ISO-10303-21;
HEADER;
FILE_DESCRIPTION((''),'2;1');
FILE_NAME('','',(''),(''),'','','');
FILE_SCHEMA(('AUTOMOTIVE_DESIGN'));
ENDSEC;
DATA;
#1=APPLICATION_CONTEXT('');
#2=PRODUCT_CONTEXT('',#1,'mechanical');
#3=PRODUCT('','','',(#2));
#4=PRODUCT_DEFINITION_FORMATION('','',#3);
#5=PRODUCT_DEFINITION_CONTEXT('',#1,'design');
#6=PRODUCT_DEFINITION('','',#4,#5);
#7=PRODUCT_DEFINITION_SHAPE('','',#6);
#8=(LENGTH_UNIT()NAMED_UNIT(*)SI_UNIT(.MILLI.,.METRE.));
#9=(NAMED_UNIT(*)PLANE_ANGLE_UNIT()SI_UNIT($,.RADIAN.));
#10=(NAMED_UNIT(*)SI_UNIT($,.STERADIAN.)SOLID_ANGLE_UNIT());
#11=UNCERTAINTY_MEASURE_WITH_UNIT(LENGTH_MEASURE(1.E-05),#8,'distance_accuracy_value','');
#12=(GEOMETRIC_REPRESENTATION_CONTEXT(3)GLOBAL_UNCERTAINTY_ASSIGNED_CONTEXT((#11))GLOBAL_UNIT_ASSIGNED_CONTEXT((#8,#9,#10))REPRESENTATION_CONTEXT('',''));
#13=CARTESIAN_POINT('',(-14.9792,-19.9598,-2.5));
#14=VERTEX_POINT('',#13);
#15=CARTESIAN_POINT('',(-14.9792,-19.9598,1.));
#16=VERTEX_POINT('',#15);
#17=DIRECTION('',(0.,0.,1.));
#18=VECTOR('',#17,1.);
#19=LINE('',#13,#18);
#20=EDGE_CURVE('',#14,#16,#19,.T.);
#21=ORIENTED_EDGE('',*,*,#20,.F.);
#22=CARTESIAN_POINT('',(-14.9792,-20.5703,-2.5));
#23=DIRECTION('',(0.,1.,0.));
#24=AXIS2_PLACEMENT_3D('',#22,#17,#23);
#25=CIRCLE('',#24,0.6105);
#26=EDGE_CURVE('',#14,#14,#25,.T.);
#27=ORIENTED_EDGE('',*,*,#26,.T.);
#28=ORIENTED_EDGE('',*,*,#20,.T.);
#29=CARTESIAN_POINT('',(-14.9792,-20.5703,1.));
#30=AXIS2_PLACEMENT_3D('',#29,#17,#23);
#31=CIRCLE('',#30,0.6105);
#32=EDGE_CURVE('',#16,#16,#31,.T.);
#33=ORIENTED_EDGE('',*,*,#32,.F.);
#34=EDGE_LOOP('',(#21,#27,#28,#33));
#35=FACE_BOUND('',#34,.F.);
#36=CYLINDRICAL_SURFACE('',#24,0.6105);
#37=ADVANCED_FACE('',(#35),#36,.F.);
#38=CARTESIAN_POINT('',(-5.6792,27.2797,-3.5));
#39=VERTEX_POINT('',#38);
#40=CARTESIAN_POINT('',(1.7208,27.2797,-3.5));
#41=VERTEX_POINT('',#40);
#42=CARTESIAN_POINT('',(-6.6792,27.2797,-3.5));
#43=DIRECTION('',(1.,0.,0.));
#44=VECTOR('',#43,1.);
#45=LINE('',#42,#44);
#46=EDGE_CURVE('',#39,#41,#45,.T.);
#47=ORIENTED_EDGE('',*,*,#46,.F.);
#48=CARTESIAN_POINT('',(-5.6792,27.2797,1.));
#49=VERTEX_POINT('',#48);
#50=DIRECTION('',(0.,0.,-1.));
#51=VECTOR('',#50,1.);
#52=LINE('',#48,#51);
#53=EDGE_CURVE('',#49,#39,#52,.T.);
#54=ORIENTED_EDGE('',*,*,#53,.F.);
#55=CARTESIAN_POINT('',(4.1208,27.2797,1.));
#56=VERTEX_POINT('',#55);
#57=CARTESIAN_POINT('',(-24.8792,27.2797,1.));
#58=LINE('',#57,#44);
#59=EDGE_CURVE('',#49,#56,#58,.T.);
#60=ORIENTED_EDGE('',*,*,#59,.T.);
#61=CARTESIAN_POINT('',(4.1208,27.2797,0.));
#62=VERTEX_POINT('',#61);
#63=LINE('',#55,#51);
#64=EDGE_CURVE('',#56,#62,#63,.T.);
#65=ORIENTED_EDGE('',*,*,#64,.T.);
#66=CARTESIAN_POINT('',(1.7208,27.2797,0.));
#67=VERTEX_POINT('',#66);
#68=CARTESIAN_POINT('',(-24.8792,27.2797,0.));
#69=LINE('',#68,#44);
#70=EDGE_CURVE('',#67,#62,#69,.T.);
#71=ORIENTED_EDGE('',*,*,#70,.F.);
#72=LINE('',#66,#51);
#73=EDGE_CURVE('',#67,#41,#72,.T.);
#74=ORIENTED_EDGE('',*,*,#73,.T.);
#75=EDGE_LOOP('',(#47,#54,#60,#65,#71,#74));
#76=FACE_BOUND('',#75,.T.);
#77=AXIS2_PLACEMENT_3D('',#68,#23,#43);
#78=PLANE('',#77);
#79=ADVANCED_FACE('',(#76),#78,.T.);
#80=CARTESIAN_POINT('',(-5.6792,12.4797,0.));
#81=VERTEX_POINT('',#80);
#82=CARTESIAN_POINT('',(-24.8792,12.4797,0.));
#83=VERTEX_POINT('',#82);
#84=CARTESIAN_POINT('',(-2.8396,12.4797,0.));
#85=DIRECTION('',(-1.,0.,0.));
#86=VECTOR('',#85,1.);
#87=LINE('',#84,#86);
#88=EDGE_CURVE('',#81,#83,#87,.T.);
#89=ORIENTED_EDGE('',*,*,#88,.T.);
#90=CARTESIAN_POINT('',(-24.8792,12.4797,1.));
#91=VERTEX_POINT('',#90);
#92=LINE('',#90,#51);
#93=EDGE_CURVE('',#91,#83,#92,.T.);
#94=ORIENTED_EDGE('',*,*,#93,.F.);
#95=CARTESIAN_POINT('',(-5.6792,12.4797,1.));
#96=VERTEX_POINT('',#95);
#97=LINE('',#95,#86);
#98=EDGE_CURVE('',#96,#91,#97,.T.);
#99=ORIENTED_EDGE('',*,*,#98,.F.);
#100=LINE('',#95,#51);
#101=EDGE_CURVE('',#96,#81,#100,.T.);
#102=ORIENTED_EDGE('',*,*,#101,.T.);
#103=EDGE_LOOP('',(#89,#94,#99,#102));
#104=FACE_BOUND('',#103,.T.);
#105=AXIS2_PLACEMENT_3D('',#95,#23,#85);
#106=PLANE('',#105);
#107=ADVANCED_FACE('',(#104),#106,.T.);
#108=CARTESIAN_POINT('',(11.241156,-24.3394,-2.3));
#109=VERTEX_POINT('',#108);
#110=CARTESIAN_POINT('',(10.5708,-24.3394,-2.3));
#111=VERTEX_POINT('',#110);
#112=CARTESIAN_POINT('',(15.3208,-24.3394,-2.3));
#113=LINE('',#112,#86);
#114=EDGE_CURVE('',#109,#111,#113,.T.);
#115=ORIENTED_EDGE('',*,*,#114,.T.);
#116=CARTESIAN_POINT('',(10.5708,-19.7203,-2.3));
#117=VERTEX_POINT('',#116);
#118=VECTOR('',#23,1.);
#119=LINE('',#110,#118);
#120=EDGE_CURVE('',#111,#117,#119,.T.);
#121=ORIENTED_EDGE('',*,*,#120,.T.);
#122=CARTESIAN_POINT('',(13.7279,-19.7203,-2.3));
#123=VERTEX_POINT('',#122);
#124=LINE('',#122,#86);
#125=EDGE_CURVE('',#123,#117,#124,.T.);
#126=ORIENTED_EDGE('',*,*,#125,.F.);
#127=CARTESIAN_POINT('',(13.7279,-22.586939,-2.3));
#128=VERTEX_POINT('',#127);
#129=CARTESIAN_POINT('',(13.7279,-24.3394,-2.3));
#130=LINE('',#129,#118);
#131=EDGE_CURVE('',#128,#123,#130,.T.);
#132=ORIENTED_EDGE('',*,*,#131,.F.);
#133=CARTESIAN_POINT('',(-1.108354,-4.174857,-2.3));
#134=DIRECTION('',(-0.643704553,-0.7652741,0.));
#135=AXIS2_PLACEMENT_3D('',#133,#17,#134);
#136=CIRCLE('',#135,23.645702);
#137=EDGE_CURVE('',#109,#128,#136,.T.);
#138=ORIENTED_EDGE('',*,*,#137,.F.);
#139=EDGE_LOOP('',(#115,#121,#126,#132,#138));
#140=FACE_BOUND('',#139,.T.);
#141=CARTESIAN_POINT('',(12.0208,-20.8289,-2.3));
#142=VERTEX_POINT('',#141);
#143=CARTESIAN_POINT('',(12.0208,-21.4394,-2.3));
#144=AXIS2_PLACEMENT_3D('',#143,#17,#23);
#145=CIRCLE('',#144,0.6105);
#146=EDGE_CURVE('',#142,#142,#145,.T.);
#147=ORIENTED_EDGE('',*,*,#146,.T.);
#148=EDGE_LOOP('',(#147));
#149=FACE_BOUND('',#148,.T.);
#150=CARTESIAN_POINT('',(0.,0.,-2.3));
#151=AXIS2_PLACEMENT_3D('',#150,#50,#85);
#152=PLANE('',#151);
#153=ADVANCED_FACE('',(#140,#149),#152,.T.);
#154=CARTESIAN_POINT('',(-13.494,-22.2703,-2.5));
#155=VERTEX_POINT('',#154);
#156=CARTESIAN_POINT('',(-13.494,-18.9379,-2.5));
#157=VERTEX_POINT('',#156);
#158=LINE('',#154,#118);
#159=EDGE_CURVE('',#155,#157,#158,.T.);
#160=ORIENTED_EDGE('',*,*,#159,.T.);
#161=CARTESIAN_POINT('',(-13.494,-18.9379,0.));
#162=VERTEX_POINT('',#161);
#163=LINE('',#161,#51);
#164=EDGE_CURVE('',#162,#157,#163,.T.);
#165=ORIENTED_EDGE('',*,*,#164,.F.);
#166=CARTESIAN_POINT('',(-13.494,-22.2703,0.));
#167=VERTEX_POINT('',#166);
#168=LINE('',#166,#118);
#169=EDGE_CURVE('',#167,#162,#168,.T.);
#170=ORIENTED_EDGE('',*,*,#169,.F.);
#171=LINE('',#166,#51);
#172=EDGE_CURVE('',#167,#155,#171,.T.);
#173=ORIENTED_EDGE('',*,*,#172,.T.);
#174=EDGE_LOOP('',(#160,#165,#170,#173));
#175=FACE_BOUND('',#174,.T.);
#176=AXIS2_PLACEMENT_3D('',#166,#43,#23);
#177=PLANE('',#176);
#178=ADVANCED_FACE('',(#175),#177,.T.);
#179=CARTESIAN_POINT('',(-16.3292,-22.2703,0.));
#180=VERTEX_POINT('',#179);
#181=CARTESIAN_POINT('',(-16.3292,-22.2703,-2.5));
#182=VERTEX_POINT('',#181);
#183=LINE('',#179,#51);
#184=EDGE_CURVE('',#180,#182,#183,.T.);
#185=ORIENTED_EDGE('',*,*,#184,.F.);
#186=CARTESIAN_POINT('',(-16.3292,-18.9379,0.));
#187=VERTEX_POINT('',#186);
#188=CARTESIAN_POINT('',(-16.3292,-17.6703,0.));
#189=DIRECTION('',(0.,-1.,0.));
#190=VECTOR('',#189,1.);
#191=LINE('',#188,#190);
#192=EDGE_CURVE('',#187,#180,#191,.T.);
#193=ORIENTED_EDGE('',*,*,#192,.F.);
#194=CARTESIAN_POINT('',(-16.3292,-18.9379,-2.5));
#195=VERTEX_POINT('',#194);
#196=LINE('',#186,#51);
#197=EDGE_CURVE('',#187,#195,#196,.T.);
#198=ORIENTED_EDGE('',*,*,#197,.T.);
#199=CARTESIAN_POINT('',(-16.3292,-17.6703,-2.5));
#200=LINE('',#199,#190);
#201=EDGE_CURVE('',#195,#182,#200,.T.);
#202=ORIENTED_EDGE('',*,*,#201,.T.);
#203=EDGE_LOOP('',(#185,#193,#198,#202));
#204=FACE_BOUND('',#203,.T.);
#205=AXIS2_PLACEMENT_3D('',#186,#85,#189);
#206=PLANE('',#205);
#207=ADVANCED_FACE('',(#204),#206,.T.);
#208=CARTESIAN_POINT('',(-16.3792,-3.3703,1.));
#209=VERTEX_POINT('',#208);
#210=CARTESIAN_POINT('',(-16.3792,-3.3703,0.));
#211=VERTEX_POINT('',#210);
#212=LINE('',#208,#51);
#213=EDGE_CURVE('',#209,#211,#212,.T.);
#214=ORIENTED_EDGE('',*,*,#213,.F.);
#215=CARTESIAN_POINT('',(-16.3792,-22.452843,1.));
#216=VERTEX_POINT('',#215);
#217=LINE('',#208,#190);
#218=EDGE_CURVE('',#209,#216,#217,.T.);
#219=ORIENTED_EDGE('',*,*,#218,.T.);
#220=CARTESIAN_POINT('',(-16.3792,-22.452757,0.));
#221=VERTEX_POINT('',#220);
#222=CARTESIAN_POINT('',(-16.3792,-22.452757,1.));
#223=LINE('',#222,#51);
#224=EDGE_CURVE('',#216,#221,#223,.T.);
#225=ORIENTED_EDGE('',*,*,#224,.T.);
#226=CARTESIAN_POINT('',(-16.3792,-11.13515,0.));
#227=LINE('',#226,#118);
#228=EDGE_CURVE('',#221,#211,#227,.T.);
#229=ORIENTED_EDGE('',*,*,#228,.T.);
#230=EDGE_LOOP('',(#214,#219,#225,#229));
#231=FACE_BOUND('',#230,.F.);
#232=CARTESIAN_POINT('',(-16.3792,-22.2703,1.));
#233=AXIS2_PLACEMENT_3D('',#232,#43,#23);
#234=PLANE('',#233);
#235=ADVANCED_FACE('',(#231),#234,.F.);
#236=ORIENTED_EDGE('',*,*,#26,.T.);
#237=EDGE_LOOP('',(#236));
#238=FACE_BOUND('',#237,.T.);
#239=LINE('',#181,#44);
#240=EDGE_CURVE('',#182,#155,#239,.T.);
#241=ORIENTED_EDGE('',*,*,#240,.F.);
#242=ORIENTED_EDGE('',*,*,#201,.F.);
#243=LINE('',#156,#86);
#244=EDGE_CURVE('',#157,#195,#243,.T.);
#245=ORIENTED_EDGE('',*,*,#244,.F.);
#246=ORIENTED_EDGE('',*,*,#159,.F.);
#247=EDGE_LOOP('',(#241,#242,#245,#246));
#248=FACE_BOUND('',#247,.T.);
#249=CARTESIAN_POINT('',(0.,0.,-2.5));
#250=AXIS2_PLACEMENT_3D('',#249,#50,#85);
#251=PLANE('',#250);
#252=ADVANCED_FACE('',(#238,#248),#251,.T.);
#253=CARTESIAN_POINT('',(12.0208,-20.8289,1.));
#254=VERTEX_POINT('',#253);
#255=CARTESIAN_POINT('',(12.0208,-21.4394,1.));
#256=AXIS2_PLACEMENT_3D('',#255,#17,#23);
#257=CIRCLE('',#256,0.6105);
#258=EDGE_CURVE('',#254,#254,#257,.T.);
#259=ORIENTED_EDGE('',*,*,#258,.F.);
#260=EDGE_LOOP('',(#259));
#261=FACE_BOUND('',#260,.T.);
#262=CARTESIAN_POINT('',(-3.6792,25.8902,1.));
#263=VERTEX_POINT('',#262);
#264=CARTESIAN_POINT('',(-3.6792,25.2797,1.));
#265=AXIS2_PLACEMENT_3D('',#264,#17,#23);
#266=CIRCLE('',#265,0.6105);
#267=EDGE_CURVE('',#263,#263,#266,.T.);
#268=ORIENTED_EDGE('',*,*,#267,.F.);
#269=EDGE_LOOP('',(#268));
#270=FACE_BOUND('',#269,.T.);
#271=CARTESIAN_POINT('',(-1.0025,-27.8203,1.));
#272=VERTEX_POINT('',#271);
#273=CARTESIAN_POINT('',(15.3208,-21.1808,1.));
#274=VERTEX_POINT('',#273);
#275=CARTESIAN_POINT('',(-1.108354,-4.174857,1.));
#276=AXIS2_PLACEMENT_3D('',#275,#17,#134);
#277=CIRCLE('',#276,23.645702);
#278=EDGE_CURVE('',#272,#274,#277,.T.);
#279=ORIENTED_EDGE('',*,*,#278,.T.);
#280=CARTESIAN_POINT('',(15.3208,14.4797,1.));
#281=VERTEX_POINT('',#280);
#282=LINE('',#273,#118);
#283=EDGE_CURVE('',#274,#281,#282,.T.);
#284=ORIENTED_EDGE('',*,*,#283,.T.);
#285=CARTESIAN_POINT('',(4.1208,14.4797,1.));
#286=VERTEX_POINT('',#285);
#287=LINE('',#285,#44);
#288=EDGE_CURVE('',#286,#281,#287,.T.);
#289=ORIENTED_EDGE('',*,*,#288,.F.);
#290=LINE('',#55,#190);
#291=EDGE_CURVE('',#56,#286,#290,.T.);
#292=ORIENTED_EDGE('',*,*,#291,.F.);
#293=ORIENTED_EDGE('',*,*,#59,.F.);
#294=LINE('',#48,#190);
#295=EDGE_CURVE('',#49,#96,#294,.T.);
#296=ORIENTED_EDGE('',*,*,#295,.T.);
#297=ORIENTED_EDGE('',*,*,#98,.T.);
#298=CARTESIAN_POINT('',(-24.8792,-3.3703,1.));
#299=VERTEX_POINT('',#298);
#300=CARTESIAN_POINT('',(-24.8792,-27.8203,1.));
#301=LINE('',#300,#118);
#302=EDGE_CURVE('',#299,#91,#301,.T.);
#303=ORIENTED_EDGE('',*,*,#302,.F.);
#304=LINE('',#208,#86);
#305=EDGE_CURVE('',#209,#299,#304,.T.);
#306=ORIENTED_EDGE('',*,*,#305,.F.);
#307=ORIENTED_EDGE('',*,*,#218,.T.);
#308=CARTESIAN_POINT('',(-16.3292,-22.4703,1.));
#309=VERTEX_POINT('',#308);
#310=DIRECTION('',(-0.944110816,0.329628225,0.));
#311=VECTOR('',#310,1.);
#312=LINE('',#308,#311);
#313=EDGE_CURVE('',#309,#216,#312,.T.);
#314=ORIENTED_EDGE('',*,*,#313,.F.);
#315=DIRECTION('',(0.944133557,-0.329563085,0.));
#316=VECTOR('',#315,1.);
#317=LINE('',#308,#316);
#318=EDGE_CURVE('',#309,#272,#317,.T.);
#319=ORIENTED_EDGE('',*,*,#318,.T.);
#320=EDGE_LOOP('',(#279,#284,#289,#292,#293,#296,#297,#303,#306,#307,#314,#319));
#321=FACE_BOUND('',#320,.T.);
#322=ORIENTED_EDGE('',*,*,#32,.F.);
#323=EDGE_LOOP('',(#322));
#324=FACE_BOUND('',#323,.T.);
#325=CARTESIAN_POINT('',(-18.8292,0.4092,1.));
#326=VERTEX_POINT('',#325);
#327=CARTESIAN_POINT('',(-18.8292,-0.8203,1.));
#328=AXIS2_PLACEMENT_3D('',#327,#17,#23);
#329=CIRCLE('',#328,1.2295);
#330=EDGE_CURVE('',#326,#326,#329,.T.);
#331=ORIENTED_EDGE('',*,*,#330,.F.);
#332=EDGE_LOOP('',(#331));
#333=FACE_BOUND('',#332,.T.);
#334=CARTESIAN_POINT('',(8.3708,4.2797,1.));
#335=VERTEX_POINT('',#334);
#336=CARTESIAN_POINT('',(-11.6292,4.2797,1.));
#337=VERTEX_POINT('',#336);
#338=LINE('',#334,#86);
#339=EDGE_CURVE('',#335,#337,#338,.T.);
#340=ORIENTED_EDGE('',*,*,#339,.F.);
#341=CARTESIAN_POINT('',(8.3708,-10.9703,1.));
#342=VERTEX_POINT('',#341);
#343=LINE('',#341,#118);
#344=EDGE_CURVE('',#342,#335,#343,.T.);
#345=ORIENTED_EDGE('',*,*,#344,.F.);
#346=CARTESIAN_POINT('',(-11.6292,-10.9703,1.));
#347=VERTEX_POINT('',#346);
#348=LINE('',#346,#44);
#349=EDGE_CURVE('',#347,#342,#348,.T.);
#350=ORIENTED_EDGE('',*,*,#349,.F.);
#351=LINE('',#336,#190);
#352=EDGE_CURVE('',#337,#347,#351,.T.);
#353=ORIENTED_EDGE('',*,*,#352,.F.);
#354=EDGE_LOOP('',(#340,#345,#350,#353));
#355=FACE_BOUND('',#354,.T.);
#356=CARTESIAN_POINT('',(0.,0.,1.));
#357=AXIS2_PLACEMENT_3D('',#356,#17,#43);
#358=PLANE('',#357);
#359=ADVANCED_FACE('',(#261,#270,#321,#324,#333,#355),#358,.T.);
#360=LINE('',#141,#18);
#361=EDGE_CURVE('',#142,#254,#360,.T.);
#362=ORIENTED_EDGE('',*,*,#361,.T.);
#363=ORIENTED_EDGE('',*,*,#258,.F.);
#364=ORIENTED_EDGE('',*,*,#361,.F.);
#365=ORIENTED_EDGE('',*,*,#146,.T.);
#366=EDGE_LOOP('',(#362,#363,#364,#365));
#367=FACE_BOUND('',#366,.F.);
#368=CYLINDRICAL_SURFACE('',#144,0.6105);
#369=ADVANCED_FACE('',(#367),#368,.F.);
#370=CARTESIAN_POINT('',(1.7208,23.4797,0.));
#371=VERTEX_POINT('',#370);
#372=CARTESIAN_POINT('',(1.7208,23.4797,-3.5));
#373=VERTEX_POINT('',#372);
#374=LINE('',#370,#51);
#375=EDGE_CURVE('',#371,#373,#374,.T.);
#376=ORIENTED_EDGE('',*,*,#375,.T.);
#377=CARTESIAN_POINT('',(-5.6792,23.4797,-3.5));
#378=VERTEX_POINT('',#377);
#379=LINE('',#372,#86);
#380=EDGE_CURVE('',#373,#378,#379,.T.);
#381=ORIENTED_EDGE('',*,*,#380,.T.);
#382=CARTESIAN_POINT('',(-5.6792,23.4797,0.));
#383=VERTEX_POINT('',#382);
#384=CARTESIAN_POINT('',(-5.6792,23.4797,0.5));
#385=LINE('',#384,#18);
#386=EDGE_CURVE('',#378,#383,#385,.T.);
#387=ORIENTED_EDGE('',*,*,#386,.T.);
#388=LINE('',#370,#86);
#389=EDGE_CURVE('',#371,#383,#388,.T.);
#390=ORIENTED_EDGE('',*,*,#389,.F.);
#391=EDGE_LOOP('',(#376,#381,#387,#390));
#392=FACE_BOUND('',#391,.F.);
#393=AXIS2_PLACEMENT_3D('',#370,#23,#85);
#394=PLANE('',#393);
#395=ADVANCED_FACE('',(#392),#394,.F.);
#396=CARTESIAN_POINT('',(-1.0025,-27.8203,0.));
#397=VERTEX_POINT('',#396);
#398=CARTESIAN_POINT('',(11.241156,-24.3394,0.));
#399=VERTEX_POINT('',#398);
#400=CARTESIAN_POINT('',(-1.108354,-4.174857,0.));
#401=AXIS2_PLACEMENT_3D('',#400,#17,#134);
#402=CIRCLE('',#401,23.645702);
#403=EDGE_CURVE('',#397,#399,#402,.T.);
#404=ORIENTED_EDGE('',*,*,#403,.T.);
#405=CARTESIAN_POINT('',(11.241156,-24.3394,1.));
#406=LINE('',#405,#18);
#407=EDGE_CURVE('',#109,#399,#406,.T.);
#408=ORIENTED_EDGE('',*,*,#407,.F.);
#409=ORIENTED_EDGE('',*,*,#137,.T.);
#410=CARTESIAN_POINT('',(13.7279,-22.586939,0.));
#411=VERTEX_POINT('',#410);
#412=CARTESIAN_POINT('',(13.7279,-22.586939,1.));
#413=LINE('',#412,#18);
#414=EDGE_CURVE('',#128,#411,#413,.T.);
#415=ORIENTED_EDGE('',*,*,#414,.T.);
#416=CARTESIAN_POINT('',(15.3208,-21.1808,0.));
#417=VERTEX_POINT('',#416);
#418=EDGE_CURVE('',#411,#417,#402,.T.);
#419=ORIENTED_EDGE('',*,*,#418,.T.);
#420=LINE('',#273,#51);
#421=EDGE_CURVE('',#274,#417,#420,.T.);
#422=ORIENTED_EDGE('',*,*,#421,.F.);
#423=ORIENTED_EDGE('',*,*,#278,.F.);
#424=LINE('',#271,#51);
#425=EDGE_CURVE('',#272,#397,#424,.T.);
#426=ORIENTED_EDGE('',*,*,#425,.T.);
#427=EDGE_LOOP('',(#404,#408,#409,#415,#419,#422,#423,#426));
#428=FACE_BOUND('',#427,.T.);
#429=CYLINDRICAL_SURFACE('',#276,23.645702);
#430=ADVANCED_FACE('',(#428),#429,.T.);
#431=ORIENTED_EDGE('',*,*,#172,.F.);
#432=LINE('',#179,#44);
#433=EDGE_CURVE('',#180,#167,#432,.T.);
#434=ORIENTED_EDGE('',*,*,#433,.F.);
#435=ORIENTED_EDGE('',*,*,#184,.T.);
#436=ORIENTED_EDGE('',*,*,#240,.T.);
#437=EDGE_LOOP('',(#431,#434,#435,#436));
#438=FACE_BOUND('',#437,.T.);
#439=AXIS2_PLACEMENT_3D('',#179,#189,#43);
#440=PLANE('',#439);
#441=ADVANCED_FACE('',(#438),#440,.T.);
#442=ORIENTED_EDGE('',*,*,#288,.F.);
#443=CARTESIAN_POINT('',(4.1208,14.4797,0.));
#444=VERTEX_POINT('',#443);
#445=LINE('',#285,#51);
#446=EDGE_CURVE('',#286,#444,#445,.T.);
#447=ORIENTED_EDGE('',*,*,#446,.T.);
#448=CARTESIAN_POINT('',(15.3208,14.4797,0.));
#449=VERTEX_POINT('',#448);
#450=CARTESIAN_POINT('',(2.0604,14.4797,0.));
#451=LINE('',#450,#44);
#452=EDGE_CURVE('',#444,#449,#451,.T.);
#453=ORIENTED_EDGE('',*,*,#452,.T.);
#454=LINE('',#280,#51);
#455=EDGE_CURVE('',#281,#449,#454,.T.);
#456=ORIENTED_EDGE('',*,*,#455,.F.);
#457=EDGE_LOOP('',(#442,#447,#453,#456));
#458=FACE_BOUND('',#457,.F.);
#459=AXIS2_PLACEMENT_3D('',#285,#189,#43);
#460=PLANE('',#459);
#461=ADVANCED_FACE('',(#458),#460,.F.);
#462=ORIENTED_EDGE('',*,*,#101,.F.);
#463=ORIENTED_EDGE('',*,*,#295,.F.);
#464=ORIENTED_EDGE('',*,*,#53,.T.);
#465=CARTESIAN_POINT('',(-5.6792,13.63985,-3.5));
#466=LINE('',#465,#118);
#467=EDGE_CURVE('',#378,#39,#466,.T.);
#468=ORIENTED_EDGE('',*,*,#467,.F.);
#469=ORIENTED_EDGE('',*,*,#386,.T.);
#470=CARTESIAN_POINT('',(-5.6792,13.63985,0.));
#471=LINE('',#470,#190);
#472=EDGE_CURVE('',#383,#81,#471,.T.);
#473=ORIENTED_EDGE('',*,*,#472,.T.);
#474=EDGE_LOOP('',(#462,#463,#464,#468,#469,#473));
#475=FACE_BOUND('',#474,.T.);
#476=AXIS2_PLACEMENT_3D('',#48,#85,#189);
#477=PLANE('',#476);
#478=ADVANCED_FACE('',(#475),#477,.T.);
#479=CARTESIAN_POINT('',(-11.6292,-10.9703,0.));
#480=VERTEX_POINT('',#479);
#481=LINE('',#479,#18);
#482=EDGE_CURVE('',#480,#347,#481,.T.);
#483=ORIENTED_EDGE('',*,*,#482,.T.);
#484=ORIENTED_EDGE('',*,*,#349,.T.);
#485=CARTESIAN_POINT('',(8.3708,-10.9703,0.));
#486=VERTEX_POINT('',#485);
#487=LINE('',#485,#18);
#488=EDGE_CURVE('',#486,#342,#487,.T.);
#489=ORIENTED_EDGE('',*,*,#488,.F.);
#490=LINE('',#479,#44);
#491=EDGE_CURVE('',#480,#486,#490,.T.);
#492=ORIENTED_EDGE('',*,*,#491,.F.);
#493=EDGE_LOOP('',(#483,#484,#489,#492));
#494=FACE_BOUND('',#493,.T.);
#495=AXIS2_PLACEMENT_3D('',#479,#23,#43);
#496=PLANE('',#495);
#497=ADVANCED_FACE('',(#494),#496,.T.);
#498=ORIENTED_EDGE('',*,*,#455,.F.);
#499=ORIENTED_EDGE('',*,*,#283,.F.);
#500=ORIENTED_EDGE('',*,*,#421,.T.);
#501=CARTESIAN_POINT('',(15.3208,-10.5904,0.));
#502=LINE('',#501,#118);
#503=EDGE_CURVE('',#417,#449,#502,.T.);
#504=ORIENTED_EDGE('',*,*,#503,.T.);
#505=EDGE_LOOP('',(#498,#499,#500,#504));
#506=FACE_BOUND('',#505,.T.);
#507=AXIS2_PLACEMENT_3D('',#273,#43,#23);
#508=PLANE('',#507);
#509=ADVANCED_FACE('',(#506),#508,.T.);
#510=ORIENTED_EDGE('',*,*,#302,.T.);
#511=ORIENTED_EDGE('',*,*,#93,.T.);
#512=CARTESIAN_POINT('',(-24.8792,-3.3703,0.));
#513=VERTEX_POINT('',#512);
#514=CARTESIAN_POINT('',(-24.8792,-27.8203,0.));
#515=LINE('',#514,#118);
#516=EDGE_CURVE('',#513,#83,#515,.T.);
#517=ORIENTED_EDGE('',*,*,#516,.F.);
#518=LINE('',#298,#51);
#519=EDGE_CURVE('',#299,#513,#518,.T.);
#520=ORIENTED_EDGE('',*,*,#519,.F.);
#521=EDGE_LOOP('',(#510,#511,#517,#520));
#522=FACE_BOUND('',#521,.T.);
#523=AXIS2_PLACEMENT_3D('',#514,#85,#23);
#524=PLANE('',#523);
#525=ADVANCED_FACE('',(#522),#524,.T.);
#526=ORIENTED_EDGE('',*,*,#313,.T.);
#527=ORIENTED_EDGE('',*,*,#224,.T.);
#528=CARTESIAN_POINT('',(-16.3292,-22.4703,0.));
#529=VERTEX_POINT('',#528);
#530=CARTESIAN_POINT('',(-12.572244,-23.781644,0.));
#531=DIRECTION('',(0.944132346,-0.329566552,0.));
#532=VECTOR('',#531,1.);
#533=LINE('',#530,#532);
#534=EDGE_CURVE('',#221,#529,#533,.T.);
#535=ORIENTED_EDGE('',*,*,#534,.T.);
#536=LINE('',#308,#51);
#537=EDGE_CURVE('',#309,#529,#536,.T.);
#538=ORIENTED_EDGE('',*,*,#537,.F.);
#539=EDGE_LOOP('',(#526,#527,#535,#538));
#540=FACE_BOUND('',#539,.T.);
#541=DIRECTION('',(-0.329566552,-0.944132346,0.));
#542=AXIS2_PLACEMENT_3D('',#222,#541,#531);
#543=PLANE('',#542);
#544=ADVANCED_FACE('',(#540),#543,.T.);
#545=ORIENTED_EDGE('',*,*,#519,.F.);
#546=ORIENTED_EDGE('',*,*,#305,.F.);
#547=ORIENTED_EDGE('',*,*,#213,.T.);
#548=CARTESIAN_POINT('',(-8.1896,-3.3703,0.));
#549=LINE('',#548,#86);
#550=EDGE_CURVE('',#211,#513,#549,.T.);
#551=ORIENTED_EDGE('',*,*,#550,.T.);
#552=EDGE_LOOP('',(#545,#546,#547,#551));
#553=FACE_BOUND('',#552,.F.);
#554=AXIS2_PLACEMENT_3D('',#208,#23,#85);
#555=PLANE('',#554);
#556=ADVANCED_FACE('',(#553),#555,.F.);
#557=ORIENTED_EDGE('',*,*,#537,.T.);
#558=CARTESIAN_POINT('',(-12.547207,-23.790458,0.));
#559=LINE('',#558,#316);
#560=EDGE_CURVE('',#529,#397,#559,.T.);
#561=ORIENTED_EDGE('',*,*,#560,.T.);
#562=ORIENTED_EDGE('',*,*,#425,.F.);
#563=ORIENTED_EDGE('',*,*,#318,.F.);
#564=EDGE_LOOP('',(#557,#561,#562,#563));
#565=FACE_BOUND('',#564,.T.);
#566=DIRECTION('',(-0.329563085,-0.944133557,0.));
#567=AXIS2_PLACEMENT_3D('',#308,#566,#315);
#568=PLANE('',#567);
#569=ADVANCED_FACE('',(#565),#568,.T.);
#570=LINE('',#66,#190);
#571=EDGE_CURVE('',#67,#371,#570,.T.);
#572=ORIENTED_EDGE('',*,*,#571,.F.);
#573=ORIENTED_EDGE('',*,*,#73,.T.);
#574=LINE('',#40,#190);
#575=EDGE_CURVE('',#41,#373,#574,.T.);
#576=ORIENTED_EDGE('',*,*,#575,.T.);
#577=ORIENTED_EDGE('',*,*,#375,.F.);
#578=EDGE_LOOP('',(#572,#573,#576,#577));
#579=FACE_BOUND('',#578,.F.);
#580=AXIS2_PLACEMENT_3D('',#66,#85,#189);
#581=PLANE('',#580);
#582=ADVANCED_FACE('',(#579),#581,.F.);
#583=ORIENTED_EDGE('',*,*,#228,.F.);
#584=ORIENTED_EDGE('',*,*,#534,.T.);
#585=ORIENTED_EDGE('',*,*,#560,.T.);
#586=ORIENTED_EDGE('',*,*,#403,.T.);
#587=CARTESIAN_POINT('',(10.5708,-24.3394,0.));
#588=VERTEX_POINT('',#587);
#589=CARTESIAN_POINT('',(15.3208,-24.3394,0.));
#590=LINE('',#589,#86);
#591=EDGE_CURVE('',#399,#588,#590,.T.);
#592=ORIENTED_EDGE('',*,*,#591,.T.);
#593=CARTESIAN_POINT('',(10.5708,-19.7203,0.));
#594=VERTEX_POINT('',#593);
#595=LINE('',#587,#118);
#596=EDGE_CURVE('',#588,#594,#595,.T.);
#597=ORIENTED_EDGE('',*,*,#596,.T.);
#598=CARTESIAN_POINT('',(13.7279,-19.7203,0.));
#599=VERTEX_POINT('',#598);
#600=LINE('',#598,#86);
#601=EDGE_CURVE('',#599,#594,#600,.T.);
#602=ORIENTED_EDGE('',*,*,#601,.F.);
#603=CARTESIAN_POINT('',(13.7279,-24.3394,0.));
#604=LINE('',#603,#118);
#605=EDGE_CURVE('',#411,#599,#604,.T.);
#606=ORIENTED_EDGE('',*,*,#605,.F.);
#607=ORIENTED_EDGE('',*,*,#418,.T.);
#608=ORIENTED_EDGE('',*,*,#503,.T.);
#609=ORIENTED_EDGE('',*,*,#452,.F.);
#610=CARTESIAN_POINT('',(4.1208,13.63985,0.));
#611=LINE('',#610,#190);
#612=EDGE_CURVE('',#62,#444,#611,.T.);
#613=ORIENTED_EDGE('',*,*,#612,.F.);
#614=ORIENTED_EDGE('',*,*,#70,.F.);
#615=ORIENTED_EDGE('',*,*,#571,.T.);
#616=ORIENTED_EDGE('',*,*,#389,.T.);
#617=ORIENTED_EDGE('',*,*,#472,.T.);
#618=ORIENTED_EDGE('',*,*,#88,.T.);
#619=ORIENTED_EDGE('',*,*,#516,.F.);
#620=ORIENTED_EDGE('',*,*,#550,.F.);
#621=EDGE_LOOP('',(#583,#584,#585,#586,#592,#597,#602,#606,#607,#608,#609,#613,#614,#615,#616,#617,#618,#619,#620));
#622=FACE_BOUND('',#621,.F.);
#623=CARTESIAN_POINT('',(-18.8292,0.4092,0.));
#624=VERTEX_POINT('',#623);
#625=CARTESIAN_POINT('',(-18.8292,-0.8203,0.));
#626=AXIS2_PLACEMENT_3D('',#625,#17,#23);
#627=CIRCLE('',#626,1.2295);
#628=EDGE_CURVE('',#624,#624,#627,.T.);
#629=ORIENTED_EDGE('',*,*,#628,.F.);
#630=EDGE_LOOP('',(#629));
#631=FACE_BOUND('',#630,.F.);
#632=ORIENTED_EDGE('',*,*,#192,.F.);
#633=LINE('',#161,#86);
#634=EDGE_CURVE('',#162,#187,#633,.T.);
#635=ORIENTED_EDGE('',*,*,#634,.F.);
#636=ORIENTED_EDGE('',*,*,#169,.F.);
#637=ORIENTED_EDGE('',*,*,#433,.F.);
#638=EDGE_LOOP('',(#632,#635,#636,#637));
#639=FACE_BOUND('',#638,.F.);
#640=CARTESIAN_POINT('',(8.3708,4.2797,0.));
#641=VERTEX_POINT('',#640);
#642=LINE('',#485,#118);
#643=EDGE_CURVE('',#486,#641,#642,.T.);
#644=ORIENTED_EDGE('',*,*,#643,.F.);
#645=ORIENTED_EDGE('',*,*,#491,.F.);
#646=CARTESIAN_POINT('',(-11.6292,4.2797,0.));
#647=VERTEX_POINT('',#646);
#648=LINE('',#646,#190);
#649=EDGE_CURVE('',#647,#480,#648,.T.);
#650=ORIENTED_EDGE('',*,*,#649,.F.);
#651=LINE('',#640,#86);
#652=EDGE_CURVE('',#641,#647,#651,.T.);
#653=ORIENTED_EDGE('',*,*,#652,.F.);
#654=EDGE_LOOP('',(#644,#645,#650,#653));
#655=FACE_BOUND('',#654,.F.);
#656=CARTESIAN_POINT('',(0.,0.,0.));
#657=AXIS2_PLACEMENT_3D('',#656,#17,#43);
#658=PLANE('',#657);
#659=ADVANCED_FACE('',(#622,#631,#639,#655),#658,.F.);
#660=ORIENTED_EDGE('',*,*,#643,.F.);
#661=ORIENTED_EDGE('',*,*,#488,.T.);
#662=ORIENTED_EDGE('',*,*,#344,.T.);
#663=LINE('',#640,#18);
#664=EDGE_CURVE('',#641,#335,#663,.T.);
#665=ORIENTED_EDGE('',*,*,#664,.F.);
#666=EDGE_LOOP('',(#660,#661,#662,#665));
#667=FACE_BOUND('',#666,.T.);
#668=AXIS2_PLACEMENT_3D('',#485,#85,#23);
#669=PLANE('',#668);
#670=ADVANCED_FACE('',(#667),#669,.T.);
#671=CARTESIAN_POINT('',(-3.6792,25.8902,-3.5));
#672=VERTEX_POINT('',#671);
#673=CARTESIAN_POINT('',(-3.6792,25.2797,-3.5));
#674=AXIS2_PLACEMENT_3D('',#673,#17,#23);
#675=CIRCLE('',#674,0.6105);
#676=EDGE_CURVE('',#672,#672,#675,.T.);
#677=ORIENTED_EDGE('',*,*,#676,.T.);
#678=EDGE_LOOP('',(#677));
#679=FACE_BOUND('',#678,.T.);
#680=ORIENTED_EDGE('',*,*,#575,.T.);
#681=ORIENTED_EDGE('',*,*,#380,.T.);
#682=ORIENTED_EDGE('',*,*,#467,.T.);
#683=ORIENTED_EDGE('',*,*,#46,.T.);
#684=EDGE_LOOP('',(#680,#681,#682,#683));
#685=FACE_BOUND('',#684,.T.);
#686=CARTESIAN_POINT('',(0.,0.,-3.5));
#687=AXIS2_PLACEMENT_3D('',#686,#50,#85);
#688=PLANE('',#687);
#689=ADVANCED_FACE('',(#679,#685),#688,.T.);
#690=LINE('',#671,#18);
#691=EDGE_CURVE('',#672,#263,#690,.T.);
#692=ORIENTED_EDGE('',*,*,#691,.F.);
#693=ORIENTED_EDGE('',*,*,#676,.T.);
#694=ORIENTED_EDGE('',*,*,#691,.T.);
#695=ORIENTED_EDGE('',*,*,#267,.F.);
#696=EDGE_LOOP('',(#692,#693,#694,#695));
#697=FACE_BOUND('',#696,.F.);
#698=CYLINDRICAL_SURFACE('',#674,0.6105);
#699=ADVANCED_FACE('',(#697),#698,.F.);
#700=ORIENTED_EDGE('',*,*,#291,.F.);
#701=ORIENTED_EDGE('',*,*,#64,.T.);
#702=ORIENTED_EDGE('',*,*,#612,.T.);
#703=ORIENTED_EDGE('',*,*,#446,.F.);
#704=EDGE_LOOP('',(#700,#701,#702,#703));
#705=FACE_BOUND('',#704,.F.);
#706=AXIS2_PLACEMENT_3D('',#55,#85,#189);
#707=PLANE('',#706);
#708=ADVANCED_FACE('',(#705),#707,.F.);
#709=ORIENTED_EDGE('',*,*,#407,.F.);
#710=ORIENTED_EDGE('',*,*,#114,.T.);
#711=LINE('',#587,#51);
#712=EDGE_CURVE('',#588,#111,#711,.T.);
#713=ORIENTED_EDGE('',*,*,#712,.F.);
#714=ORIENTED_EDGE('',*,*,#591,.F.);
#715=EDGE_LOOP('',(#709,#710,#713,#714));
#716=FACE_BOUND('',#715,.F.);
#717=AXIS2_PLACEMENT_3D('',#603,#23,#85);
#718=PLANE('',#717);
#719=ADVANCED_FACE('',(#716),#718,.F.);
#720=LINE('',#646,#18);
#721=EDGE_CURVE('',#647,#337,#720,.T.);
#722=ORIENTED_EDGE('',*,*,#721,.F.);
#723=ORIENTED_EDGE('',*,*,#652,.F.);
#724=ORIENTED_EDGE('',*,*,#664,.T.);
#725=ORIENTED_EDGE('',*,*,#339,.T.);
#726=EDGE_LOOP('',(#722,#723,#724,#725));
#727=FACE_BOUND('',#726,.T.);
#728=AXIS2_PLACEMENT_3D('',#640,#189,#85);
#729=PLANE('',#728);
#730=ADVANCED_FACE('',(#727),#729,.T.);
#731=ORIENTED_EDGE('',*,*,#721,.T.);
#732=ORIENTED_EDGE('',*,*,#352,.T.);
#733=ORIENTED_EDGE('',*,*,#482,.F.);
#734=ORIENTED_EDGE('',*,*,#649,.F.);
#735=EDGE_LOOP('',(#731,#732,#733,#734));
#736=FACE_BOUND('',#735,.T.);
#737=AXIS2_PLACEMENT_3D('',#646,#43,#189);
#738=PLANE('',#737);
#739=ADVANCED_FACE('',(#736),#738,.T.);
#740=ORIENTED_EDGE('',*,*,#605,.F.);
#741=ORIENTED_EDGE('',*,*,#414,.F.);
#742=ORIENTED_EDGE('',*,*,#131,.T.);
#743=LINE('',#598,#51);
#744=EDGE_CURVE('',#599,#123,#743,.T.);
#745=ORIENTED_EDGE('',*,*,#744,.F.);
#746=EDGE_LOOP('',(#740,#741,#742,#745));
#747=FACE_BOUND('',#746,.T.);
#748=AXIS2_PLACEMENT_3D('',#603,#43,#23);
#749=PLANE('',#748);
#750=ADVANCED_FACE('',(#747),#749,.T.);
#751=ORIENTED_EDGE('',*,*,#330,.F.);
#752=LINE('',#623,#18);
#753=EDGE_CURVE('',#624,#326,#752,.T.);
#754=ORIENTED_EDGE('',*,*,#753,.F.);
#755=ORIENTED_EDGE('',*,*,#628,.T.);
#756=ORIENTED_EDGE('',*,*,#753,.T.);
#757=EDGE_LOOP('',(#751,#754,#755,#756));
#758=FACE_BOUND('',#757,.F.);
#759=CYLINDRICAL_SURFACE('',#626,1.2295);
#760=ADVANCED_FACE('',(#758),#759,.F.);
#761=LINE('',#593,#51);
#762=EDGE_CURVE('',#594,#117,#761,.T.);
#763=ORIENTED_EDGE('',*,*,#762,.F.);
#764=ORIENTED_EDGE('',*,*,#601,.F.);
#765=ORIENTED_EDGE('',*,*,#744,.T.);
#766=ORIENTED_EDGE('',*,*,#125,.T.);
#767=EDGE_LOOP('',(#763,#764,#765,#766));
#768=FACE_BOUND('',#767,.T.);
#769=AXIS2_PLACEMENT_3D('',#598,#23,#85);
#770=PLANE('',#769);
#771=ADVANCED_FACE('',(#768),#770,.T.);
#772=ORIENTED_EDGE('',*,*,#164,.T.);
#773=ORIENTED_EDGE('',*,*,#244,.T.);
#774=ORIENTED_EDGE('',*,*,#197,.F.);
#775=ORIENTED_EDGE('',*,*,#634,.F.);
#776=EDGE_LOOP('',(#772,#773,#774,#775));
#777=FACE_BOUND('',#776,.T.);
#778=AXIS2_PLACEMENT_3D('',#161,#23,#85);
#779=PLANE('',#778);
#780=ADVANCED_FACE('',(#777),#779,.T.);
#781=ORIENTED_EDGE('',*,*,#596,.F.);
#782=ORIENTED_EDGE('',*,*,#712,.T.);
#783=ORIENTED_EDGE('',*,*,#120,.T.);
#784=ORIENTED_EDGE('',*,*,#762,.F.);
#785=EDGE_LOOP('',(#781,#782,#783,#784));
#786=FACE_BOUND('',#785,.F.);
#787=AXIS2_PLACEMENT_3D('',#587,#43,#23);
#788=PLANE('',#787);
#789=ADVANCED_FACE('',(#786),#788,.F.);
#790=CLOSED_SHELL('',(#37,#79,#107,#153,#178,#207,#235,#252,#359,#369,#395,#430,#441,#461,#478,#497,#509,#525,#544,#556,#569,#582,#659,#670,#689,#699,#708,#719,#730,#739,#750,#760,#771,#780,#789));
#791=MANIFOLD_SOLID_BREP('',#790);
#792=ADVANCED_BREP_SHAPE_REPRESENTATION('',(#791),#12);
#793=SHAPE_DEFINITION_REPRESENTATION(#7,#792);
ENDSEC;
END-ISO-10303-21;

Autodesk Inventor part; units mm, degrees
ref_plane "YZ Plane" through (0, 0, 0) normal (1, 0, 0) x (0, 1, 0)
ref_plane "XZ Plane" through (0, 0, 0) normal (0, 1, 0) x (-1, 0, 0)
ref_plane "XY Plane" through (0, 0, 0) normal (0, 0, 1) x (1, 0, 0)
sketch "Skizze1" plane through (0, 0, 0) normal (0, 0, 1) x (1, 0, 0)
  circle A0 centre (-18.8292, -0.8203) radius 1.45 construction
  line L0 (-24.8792, -2.7703) -> (-24.8792, 8.6797) construction
  arc A1 (-11.8792, -25.2203) -> (6.3208, -26.6782) centre (-1.0025, -3.77) ccw construction
  circle A2 centre (-14.9792, -20.5703) radius 0.9 construction
  circle A3 centre (12.0208, -21.4394) radius 0.9 construction
  circle A4 centre (-3.6792, 25.2797) radius 0.9 construction
  line L1 (-5.6792, 27.2797) -> (3.4208, 27.2797) construction
  line L2 (25.1208, 7.4797) -> (25.1208, -1.5203) construction
  line L3 (25.1208, -27.8203) -> (-24.8792, -27.8203)
  line L4 (-24.8792, -27.8203) -> (-24.8792, 27.2797)
  line L5 (-24.8792, 27.2797) -> (25.1208, 27.2797)
  line L6 (25.1208, 27.2797) -> (25.1208, -27.8203)
  line L7 (4.6208, 0.2797) -> (4.6208, -6.9703) construction
  line L8 (-4.8792, 0.2797) -> (4.6208, 0.2797) construction
  line L9 (-4.8792, -6.9703) -> (-4.8792, 0.2797) construction
  line L10 (4.6208, -6.9703) -> (-4.8792, -6.9703) construction
  line L11 (-2.2292, 2.2797) -> (1.9708, 2.2797) construction
  line L12 (6.3708, 2.2797) -> (1.9708, 2.2797) construction
  line L13 (6.3708, -8.9703) -> (6.3708, 2.2797) construction
  line L14 (1.9708, -8.9703) -> (6.3708, -8.9703) construction
  line L15 (1.9708, -8.9703) -> (-2.2292, -8.9703) construction
  line L16 (-6.6292, -8.9703) -> (-2.2292, -8.9703) construction
  line L17 (-6.6292, 2.2797) -> (-6.6292, -8.9703) construction
  line L18 (-2.2292, 2.2797) -> (-6.6292, 2.2797) construction
  line L19 (-11.6292, -10.9703) -> (8.3708, -10.9703)
  line L20 (8.3708, -10.9703) -> (8.3708, 4.2797)
  line L21 (8.3708, 4.2797) -> (-11.6292, 4.2797)
  line L22 (-11.6292, 4.2797) -> (-11.6292, -10.9703)
  point P0 (0, 0)
  dimension "d48" = 2
  dimension "d49" = 2
  dimension "d50" = 2
  dimension "d51" = 5
extrude "Extrusion1" add sketch "Skizze1" along normal blind 1
sketch "Skizze2" plane through (0, 0, 0) normal (0, 0, -1) x (-1, 0, 0)
  circle A0 centre (14.9792, -20.5703) radius 0.9 projected
  circle A1 centre (-12.0208, -21.4394) radius 0.9 construction
  circle A2 centre (3.6792, 25.2797) radius 0.9 construction
  circle A3 centre (14.9792, -20.5703) radius 0.9 projected
  circle A4 centre (9.7292, -19.9703) radius 0.75 projected
  line L0 (17.9792, -20.8203) -> (16.3292, -20.8203) construction
  line L1 (7.7292, -22.4703) -> (11.8792, -22.4703) construction
  line L2 (7.7292, -17.4703) -> (7.7292, -22.4703) construction
  line L3 (16.3292, -17.4703) -> (7.7292, -17.4703) construction
  line L4 (16.3292, -20.8203) -> (16.3292, -17.4703) construction
  line L5 (16.3292, -22.2703) -> (7.9292, -22.2703)
  line L6 (7.9292, -22.2703) -> (7.9292, -17.6703)
  line L7 (7.9292, -17.6703) -> (16.3292, -17.6703)
  line L8 (16.3292, -17.6703) -> (16.3292, -22.2703)
  line L9 (11.8792, -22.2703) -> (12.162, -22.2703) construction
  line L10 (16.3292, -17.6703) -> (12.3496, -17.6703)
  line L11 (12.3496, -17.6703) -> (12.3496, -22.2703)
  line L12 (12.3496, -22.2703) -> (16.3292, -22.2703)
  line L13 (16.3292, -22.2703) -> (16.3292, -17.6703)
  line L14 (16.3292, -22.2703) -> (13.494, -22.2703)
  line L15 (13.494, -22.2703) -> (13.494, -18.9379)
  line L16 (13.494, -18.9379) -> (16.3292, -18.9379)
  line L17 (16.3292, -18.9379) -> (16.3292, -22.2703)
  point P0 (0, 0)
  dimension "d3" = 0.2
  dimension "d4" = 0.2
  dimension "d9" = 0.2
extrude "Extrusion2" add sketch "Skizze2" along normal blind 2.5 contours A0 | L5 L15 L16 L8
sketch "Skizze3" plane through (0, 0, -2.5) normal (0, 0, -1) x (-1, 0, 0)
  circle A0 centre (14.9792, -20.5703) radius 0.9 construction
  point P0 (0, 0)
hole "Bohrung1" at (-14.9792, -20.5703, -2.5) direction (0, 0, 1) diameter 1.221 depth 6.1 tip angle 118 thread size "M1.6x0.35" class "6H" standard "ISO Metric profile"
sketch "Skizze4" plane through (0, 0, 0) normal (0, 0, -1) x (-1, 0, 0)
  circle A0 centre (18.8292, -0.8203) radius 1.45 construction
  point P0 (0, 0)
hole "Bohrung2" at (-18.8292, -0.8203, 0) direction (0, 0, 1) diameter 2.459 end through all thread size "M3x0.5" class "6H" standard "ISO Metric profile"
sketch "Skizze5" plane through (0, 0, 0) normal (0, 0, -1) x (-1, 0, 0)
  line L0 (-9.3708, -21.4703) -> (-9.3708, -17.9703) construction
  line L1 (-14.1208, -16.9703) -> (-14.1208, -22.4703) construction
  line L2 (-15.3208, -16.9703) -> (-10.3708, -16.9703) construction
  line L3 (-9.3708, -17.9703) -> (-10.3708, -16.9703) construction
  line L4 (-9.3708, -21.4703) -> (-9.3708, -17.9703) construction
  line L5 (-10.5708, -16.9703) -> (-15.3208, -16.9703)
  line L6 (-15.3208, -16.9703) -> (-15.3208, -24.3394)
  line L7 (-15.3208, -24.3394) -> (-10.5708, -24.3394)
  line L8 (-10.5708, -24.3394) -> (-10.5708, -16.9703)
  line L9 (-15.3208, -16.9703) -> (-15.3208, -1.5203) construction
  circle A0 centre (-12.0208, -21.4394) radius 0.9 construction
  line L10 (-10.5708, -24.3394) -> (-13.7279, -24.3394)
  line L11 (-13.7279, -24.3394) -> (-13.7279, -16.9703)
  line L12 (-13.7279, -16.9703) -> (-10.5708, -16.9703)
  line L13 (-10.5708, -16.9703) -> (-10.5708, -24.3394)
  line L14 (-10.5708, -24.3394) -> (-13.7279, -24.3394)
  line L15 (-13.7279, -24.3394) -> (-13.7279, -19.7203)
  line L16 (-13.7279, -19.7203) -> (-10.5708, -19.7203)
  line L17 (-10.5708, -19.7203) -> (-10.5708, -24.3394)
  point P0 (0, 0)
extrude "Extrusion3" add sketch "Skizze5" along normal blind 2.3 contours L8 L7 L11 L16
sketch "Skizze6" plane through (0, 0, -2.3) normal (0, 0, -1) x (-1, 0, 0)
  circle A0 centre (-12.0208, -21.4394) radius 0.9 construction
  point P0 (0, 0)
hole "Bohrung3" at (12.0208, -21.4394, -2.3) direction (0, 0, 1) diameter 1.221 depth 7.1 tip angle 118 thread size "M1.6x0.35" class "6H" standard "ISO Metric profile"
sketch "Skizze7" plane through (0, 0, 0) normal (0, 0, -1) x (-1, 0, 0)
  circle A0 centre (3.6792, 25.2797) radius 0.9 construction
  line L0 (-3.4208, 24.7797) -> (-3.4208, 27.2797) construction
  line L1 (-1.9208, 24.7797) -> (-3.4208, 24.7797) construction
  line L2 (-1.9208, 23.2797) -> (-1.9208, 24.7797) construction
  line L3 (5.6792, 23.2797) -> (-1.9208, 23.2797) construction
  line L4 (5.6792, 27.2797) -> (5.6792, 23.2797) construction
  line L5 (-3.4208, 27.2797) -> (5.6792, 27.2797) construction
  line L6 (6.6792, 27.2797) -> (-1.7208, 27.2797)
  line L7 (-1.7208, 27.2797) -> (-1.7208, 23.4797)
  line L8 (-1.7208, 23.4797) -> (6.6792, 23.4797)
  line L9 (6.6792, 23.4797) -> (6.6792, 27.2797)
  point P0 (0, 0)
  dimension "d35" = 0.2
  dimension "d36" = 0.2
  dimension "d38" = 3
extrude "Extrusion4" add sketch "Skizze7" along normal blind 3.5
sketch "Skizze8" plane through (0, 0, -3.5) normal (0, 0, -1) x (-1, 0, 0)
  circle A0 centre (3.6792, 25.2797) radius 0.9 construction
  point P0 (0, 0)
hole "Bohrung4" at (-3.6792, 25.2797, -3.5) direction (0, 0, 1) diameter 1.221 depth 7.1 tip angle 118 thread size "M1.6x0.35" class "6H" standard "ISO Metric profile"
sketch "Sketch9" plane through (0, 0, 1) normal (0, 0, 1) x (1, 0, 0)
  circle A0 centre (-18.8292, -0.8203) radius 1.45 construction
  line L0 (-22.6792, 10.4902) -> (-22.6792, -2.5703) construction
  line L1 (-22.6792, -2.5703) -> (-21.2792, -2.5703) construction
  line L2 (-21.2792, -2.5703) -> (-21.2792, 8.1297) construction
  arc A1 (-19.5792, 9.8297) -> (-21.2792, 8.1297) centre (-19.5792, 8.1297) ccw construction
  line L3 (-19.5792, 9.8297) -> (-13.5792, 9.8297) construction
  line L4 (-13.5792, 9.8297) -> (-13.5792, 11.4797) construction
  line L5 (-13.5792, 11.4797) -> (-22.1079, 11.4797) construction
  line L6 (-22.1079, 11.4797) -> (-22.6792, 10.4902) construction
  line L7 (-5.6792, 23.2797) -> (1.9208, 23.2797) construction
  line L8 (1.9208, 23.2797) -> (1.9208, 24.7797) construction
  line L9 (1.9208, 24.7797) -> (4.1208, 24.7797) construction
  line L10 (4.1208, 24.7797) -> (4.1208, 14.4797) construction
  line L11 (4.1208, 14.4797) -> (20.1208, 14.4797) construction
  line L12 (20.1208, 14.4797) -> (20.1208, 12.4797) construction
  line L13 (20.1208, 12.4797) -> (22.2341, 12.4797) construction
  line L14 (22.2341, 12.4797) -> (25.1208, 7.4797) construction
  line L15 (25.1208, 7.4797) -> (25.1208, -1.5203) construction
  line L16 (25.1208, -1.5203) -> (15.8208, -1.5203) construction
  line L17 (15.8208, -1.5203) -> (15.8208, -0.8203) construction
  line L18 (15.8208, -0.8203) -> (11.8208, -0.8203) construction
  line L19 (11.8208, -0.8203) -> (11.8208, -19.3203) construction
  line L20 (11.8208, -19.3203) -> (10.8208, -19.3203) construction
  line L21 (10.8208, -19.3203) -> (10.8208, 0.6797) construction
  line L22 (10.8208, 0.6797) -> (11.8208, 0.6797) construction
  line L23 (11.8208, 0.6797) -> (11.8208, 10.4297) construction
  line L24 (11.8208, 10.4297) -> (5.3208, 10.4297) construction
  line L25 (5.3208, 10.4297) -> (5.3208, 9.1297) construction
  line L26 (5.3208, 9.1297) -> (-19.5792, 9.1297) construction
  arc A2 (-19.5792, 9.1297) -> (-20.5792, 8.1297) centre (-19.5792, 8.1297) ccw construction
  line L27 (-20.5792, 8.1297) -> (-20.5792, 2.1297) construction
  arc A3 (-20.5792, 2.1297) -> (-20.0792, 1.6297) centre (-20.0792, 2.1297) ccw construction
  line L28 (-20.0792, 1.6297) -> (-18.8292, 1.6297) construction
  arc A4 (-16.3792, -0.8203) -> (-18.8292, 1.6297) centre (-18.8292, -0.8203) ccw construction
  line L29 (-16.3792, -0.8203) -> (-16.3792, -1.3703) construction
  arc A5 (-18.3792, -3.3703) -> (-16.3792, -1.3703) centre (-18.3792, -1.3703) ccw construction
  line L30 (-18.3792, -3.3703) -> (-23.4792, -3.3703) construction
  line L31 (-23.4792, -3.3703) -> (-23.4792, 11.1046) construction
  line L32 (-23.4792, 11.1046) -> (-22.6852, 12.4797) construction
  line L33 (-22.6852, 12.4797) -> (-13.6792, 12.4797) construction
  arc A6 (-13.6792, 12.4797) -> (-5.6792, 20.4797) centre (-13.6792, 20.4797) ccw construction
  line L34 (-5.6792, 20.4797) -> (-5.6792, 23.2797) construction
  line L35 (-7.8792, -20.1624) -> (-7.8792, -26.8162) construction
  arc A7 (-9.8792, -26.1222) -> (-7.8792, -26.8162) centre (-1.0025, -3.77) ccw construction
  line L36 (-9.8792, -26.1222) -> (-9.8792, -22.1222) construction
  line L37 (-9.8792, -22.1222) -> (-13.6811, -18.3203) construction
  line L38 (-13.6811, -18.3203) -> (-16.6811, -18.3203) construction
  line L39 (-16.6811, -18.3203) -> (-16.6811, -20.8203) construction
  line L40 (-24.8792, -20.8203) -> (-16.6811, -20.8203) construction
  line L41 (-24.8792, -3.3703) -> (-24.8792, -20.8203) construction
  line L42 (-18.3792, -3.3703) -> (-24.8792, -3.3703) construction
  arc A8 (-18.3792, -3.3703) -> (-16.3792, -1.3703) centre (-18.3792, -1.3703) ccw construction
  line L43 (-16.3792, -15.8703) -> (-16.3792, -1.3703) construction
  line L44 (-12.1713, -15.8703) -> (-16.3792, -15.8703) construction
  line L45 (-12.1713, -15.8703) -> (-7.8792, -20.1624) construction
  line L46 (9.3208, 7.5297) -> (11.8208, 7.5297) construction
  line L47 (11.8208, 0.6797) -> (11.8208, 7.5297) construction
  line L48 (10.8208, 0.6797) -> (11.8208, 0.6797) construction
  line L49 (10.8208, -19.3203) -> (10.8208, 0.6797) construction
  line L50 (11.8208, -19.3203) -> (10.8208, -19.3203) construction
  line L51 (11.8208, -0.8203) -> (11.8208, -19.3203) construction
  line L52 (15.8208, -0.8203) -> (11.8208, -0.8203) construction
  line L53 (15.8208, -1.5203) -> (15.8208, -0.8203) construction
  line L54 (15.3208, -1.5203) -> (15.8208, -1.5203) construction
  line L55 (15.3208, -16.9703) -> (15.3208, -1.5203) construction
  line L56 (14.1208, -16.9703) -> (15.3208, -16.9703) construction
  line L57 (14.1208, -20.2394) -> (14.1208, -16.9703) construction
  line L58 (14.1208, -20.2394) -> (13.6208, -20.2394) construction
  arc A9 (13.6208, -20.2394) -> (10.0208, -21.4394) centre (12.0208, -21.4394) ccw construction
  line L59 (10.0208, -21.4394) -> (10.0208, -25.1453) construction
  arc A10 (-1.5792, -27.8134) -> (10.0208, -25.1453) centre (-1.0025, -3.77) ccw construction
  line L60 (-1.5792, -27.8134) -> (-1.5792, -26.4134) construction
  line L61 (-1.5792, -26.4134) -> (0.4208, -26.4134) construction
  line L62 (0.4208, -26.4134) -> (0.9208, -25.9134) construction
  line L63 (0.9208, -25.9134) -> (2.9208, -25.9134) construction
  line L64 (2.9208, -25.9134) -> (3.4208, -25.4134) construction
  line L65 (3.4208, -25.4134) -> (5.4208, -25.4134) construction
  line L66 (5.4208, -25.4134) -> (9.0208, -21.8134) construction
  line L67 (9.0208, -21.8134) -> (9.0208, -19.0634) construction
  arc A11 (9.0208, -19.0634) -> (6.6502, -18.7996) centre (7.8502, -18.7996) ccw construction
  line L68 (6.6502, -18.7996) -> (6.6502, -17.7996) construction
  line L69 (6.6502, -17.7996) -> (2.1208, -13.2703) construction
  line L70 (2.1208, -13.2703) -> (-13.8792, -13.2703) construction
  line L71 (-13.8792, 0.1297) -> (-13.8792, -13.2703) construction
  arc A12 (-13.8792, 0.1297) -> (-15.8792, 2.1297) centre (-15.8792, 0.1297) ccw construction
  line L72 (-16.9792, 2.1297) -> (-15.8792, 2.1297) construction
  arc A13 (-17.9792, 3.1297) -> (-16.9792, 2.1297) centre (-16.9792, 3.1297) ccw construction
  line L73 (-17.9792, 4.5047) -> (-17.9792, 3.1297) construction
  arc A14 (-15.9792, 6.5047) -> (-17.9792, 4.5047) centre (-15.9792, 4.5047) ccw construction
  line L74 (-15.9792, 6.5047) -> (7.845, 6.5047) construction
  arc A15 (7.845, 6.5047) -> (9.3208, 7.5297) centre (9.3208, 5.9547) ccw construction
  line L75 (-2.2292, 2.2797) -> (-6.6292, 2.2797) construction
  line L76 (-6.6292, 2.2797) -> (-6.6292, -8.9703) construction
  line L77 (-6.6292, -8.9703) -> (-2.2292, -8.9703) construction
  line L78 (-2.2292, -8.9703) -> (-2.2292, -9.9953) construction
  line L79 (-2.2292, -9.9953) -> (1.9708, -9.9953) construction
  line L80 (1.9708, -9.9953) -> (1.9708, -8.9703) construction
  line L81 (1.9708, -8.9703) -> (6.3708, -8.9703) construction
  line L82 (6.3708, -8.9703) -> (6.3708, 2.2797) construction
  line L83 (6.3708, 2.2797) -> (1.9708, 2.2797) construction
  line L84 (1.9708, 2.2797) -> (1.9708, 3.3047) construction
  line L85 (1.9708, 3.3047) -> (-2.2292, 3.3047) construction
  line L86 (-2.2292, 3.3047) -> (-2.2292, 2.2797) construction
  circle A16 centre (-12.8292, 4.1297) radius 1.575 construction
  circle A17 centre (7.8502, -14.7996) radius 1.575 construction
  circle A18 centre (-15.8292, 4.1297) radius 0.75 construction
  line L87 (16.6208, -9.5203) -> (16.6208, -1.5203) construction
  line L88 (24.6208, -9.5203) -> (24.6208, -1.5203) construction
  circle A19 centre (-3.6792, 25.2797) radius 0.6105 projected
  circle A20 centre (12.0208, -21.4394) radius 0.6105 projected
  circle A21 centre (-18.8292, -0.8203) radius 1.2295 projected
  circle A22 centre (-14.9792, -20.5703) radius 0.6105 projected
  line L89 (-11.6292, -10.9703) -> (-11.6292, 4.2797) projected
  line L90 (-11.6292, 4.2797) -> (8.3708, 4.2797) projected
  line L91 (8.3708, 4.2797) -> (8.3708, -10.9703) projected
  line L92 (8.3708, -10.9703) -> (-11.6292, -10.9703) projected
  line L93 (-24.8792, -27.8203) -> (25.1208, -27.8203) projected
  line L94 (25.1208, -27.8203) -> (25.1208, 27.2797) projected
  line L95 (25.1208, 27.2797) -> (-24.8792, 27.2797) projected
  line L96 (-24.8792, 27.2797) -> (-24.8792, -27.8203) projected
  line L97 (25.1208, 27.2797) -> (25.1208, -27.8203) projected
  line L98 (25.1208, 27.2797) -> (4.1208, 27.2797)
  line L99 (4.1208, 27.2797) -> (4.1208, 14.4797)
  line L100 (4.1208, 14.4797) -> (25.1208, 14.4797)
  line L101 (25.1208, 14.4797) -> (25.1208, 27.2797)
  line L102 (-24.8792, 27.2797) -> (-6.6792, 27.2797) projected
  line L103 (-24.8792, 27.2797) -> (-5.6792, 27.2797)
  line L104 (-5.6792, 27.2797) -> (-5.6792, 12.4797)
  line L105 (-5.6792, 12.4797) -> (-24.8792, 12.4797)
  line L106 (-24.8792, 12.4797) -> (-24.8792, 27.2797)
  line L107 (25.1208, -27.8203) -> (15.3208, -27.8203)
  line L108 (15.3208, -27.8203) -> (15.3208, 14.4797)
  line L109 (15.3208, 14.4797) -> (25.1208, 14.4797)
  line L110 (25.1208, 14.4797) -> (25.1208, -27.8203)
  line L111 (-24.8792, -27.8203) -> (-16.3792, -27.8203)
  line L112 (-16.3792, -27.8203) -> (-16.3792, -3.3703)
  line L113 (-16.3792, -3.3703) -> (-24.8792, -3.3703)
  line L114 (-24.8792, -3.3703) -> (-24.8792, -27.8203)
  line L115 (-16.3292, -22.2703) -> (-7.9292, -22.2703) projected
  line L116 (15.3208, -16.9703) -> (15.3208, -24.3394) projected
  arc A23 (-16.3292, -22.2703) -> (15.3208, -21.1808) centre (-1.1083, -4.1747) ccw
  line L117 (-16.3292, -22.2703) -> (-16.3792, -22.2703)
  line L118 (25.1208, -27.8203) -> (-24.8792, -27.8203) projected
  line L119 (-7.9292, -22.2703) -> (-16.3292, -22.2703) projected
  line L120 (-16.3292, -22.2703) -> (-1.0025, -27.8203)
  point P0 (0, 0)
  point P1 (-21.6292, -3.3703)
extrude "Extrusion5" cut sketch "Sketch9" against normal blind 10 contours L96 L113 L112 L93 | A23 L108 L93 | L96 L95 L104 L105 | L108 L100 L94 L93 | L100 L99 L95 L94
sketch "Sketch11" plane through (0, 0, 1) normal (0, 0, 1) x (1, 0, 0)
  arc A0 (-1.0025, -27.8203) -> (15.3208, -21.1808) centre (-1.1083, -4.1747) ccw projected
  point P0 (0, 0)
sketch "Sketch12" plane through (0, 0, 1) normal (0, 0, 1) x (1, 0, 0)
  line L0 (-11.6292, -10.9703) -> (-11.6292, 4.2797) projected
  line L1 (-11.6292, 4.2797) -> (8.3708, 4.2797) projected
  line L2 (8.3708, 4.2797) -> (8.3708, -10.9703) projected
  line L3 (8.3708, -10.9703) -> (-11.6292, -10.9703) projected
  circle A0 centre (-14.9792, -20.5703) radius 0.6105 projected
  circle A1 centre (-18.8292, -0.8203) radius 1.2295 projected
  circle A2 centre (12.0208, -21.4394) radius 0.6105 projected
  circle A3 centre (-3.6792, 25.2797) radius 0.6105 projected
  arc A4 (-1.0025, -27.8203) -> (15.3208, -21.1808) centre (-1.1083, -4.1747) ccw projected
  line L4 (15.3208, -21.1808) -> (15.3208, 14.4797) projected
  line L5 (15.3208, 14.4797) -> (4.1208, 14.4797) projected
  line L6 (4.1208, 14.4797) -> (4.1208, 27.2797) projected
  line L7 (4.1208, 27.2797) -> (-5.6792, 27.2797) projected
  line L8 (-5.6792, 27.2797) -> (-5.6792, 12.4797) projected
  line L9 (-5.6792, 12.4797) -> (-24.8792, 12.4797) projected
  line L10 (-24.8792, 12.4797) -> (-24.8792, -3.3703) projected
  line L11 (-24.8792, -3.3703) -> (-16.3792, -3.3703) projected
  line L12 (-16.3792, -3.3703) -> (-16.3792, -27.8203) projected
  line L13 (-16.3792, -27.8203) -> (-1.0025, -27.8203) projected
  line L14 (-16.3292, -22.4703) -> (-17.9792, -20.8203) projected
  line L15 (-16.3792, -27.8203) -> (-1.0025, -27.8203) projected
  arc A5 (-1.0025, -27.8203) -> (15.3208, -21.1808) centre (-1.1083, -4.1747) ccw projected
  line L16 (-16.3292, -22.4703) -> (-1.0025, -27.8203)
  line L17 (-17.5522, -22.0433) -> (2.1832, -28.9323)
  line L18 (2.1832, -28.9323) -> (-1.056, -38.212)
  line L19 (-1.056, -38.212) -> (-20.7914, -31.323)
  line L20 (-20.7914, -31.323) -> (-17.5522, -22.0433)
  point P0 (0, 0)
extrude "Extrusion6" cut sketch "Sketch12" against normal blind 10 contours L17 L18 L19 L20 L12 L13 | L13 L12 L17 L16
properties part number "01_XY_Baseplate"
